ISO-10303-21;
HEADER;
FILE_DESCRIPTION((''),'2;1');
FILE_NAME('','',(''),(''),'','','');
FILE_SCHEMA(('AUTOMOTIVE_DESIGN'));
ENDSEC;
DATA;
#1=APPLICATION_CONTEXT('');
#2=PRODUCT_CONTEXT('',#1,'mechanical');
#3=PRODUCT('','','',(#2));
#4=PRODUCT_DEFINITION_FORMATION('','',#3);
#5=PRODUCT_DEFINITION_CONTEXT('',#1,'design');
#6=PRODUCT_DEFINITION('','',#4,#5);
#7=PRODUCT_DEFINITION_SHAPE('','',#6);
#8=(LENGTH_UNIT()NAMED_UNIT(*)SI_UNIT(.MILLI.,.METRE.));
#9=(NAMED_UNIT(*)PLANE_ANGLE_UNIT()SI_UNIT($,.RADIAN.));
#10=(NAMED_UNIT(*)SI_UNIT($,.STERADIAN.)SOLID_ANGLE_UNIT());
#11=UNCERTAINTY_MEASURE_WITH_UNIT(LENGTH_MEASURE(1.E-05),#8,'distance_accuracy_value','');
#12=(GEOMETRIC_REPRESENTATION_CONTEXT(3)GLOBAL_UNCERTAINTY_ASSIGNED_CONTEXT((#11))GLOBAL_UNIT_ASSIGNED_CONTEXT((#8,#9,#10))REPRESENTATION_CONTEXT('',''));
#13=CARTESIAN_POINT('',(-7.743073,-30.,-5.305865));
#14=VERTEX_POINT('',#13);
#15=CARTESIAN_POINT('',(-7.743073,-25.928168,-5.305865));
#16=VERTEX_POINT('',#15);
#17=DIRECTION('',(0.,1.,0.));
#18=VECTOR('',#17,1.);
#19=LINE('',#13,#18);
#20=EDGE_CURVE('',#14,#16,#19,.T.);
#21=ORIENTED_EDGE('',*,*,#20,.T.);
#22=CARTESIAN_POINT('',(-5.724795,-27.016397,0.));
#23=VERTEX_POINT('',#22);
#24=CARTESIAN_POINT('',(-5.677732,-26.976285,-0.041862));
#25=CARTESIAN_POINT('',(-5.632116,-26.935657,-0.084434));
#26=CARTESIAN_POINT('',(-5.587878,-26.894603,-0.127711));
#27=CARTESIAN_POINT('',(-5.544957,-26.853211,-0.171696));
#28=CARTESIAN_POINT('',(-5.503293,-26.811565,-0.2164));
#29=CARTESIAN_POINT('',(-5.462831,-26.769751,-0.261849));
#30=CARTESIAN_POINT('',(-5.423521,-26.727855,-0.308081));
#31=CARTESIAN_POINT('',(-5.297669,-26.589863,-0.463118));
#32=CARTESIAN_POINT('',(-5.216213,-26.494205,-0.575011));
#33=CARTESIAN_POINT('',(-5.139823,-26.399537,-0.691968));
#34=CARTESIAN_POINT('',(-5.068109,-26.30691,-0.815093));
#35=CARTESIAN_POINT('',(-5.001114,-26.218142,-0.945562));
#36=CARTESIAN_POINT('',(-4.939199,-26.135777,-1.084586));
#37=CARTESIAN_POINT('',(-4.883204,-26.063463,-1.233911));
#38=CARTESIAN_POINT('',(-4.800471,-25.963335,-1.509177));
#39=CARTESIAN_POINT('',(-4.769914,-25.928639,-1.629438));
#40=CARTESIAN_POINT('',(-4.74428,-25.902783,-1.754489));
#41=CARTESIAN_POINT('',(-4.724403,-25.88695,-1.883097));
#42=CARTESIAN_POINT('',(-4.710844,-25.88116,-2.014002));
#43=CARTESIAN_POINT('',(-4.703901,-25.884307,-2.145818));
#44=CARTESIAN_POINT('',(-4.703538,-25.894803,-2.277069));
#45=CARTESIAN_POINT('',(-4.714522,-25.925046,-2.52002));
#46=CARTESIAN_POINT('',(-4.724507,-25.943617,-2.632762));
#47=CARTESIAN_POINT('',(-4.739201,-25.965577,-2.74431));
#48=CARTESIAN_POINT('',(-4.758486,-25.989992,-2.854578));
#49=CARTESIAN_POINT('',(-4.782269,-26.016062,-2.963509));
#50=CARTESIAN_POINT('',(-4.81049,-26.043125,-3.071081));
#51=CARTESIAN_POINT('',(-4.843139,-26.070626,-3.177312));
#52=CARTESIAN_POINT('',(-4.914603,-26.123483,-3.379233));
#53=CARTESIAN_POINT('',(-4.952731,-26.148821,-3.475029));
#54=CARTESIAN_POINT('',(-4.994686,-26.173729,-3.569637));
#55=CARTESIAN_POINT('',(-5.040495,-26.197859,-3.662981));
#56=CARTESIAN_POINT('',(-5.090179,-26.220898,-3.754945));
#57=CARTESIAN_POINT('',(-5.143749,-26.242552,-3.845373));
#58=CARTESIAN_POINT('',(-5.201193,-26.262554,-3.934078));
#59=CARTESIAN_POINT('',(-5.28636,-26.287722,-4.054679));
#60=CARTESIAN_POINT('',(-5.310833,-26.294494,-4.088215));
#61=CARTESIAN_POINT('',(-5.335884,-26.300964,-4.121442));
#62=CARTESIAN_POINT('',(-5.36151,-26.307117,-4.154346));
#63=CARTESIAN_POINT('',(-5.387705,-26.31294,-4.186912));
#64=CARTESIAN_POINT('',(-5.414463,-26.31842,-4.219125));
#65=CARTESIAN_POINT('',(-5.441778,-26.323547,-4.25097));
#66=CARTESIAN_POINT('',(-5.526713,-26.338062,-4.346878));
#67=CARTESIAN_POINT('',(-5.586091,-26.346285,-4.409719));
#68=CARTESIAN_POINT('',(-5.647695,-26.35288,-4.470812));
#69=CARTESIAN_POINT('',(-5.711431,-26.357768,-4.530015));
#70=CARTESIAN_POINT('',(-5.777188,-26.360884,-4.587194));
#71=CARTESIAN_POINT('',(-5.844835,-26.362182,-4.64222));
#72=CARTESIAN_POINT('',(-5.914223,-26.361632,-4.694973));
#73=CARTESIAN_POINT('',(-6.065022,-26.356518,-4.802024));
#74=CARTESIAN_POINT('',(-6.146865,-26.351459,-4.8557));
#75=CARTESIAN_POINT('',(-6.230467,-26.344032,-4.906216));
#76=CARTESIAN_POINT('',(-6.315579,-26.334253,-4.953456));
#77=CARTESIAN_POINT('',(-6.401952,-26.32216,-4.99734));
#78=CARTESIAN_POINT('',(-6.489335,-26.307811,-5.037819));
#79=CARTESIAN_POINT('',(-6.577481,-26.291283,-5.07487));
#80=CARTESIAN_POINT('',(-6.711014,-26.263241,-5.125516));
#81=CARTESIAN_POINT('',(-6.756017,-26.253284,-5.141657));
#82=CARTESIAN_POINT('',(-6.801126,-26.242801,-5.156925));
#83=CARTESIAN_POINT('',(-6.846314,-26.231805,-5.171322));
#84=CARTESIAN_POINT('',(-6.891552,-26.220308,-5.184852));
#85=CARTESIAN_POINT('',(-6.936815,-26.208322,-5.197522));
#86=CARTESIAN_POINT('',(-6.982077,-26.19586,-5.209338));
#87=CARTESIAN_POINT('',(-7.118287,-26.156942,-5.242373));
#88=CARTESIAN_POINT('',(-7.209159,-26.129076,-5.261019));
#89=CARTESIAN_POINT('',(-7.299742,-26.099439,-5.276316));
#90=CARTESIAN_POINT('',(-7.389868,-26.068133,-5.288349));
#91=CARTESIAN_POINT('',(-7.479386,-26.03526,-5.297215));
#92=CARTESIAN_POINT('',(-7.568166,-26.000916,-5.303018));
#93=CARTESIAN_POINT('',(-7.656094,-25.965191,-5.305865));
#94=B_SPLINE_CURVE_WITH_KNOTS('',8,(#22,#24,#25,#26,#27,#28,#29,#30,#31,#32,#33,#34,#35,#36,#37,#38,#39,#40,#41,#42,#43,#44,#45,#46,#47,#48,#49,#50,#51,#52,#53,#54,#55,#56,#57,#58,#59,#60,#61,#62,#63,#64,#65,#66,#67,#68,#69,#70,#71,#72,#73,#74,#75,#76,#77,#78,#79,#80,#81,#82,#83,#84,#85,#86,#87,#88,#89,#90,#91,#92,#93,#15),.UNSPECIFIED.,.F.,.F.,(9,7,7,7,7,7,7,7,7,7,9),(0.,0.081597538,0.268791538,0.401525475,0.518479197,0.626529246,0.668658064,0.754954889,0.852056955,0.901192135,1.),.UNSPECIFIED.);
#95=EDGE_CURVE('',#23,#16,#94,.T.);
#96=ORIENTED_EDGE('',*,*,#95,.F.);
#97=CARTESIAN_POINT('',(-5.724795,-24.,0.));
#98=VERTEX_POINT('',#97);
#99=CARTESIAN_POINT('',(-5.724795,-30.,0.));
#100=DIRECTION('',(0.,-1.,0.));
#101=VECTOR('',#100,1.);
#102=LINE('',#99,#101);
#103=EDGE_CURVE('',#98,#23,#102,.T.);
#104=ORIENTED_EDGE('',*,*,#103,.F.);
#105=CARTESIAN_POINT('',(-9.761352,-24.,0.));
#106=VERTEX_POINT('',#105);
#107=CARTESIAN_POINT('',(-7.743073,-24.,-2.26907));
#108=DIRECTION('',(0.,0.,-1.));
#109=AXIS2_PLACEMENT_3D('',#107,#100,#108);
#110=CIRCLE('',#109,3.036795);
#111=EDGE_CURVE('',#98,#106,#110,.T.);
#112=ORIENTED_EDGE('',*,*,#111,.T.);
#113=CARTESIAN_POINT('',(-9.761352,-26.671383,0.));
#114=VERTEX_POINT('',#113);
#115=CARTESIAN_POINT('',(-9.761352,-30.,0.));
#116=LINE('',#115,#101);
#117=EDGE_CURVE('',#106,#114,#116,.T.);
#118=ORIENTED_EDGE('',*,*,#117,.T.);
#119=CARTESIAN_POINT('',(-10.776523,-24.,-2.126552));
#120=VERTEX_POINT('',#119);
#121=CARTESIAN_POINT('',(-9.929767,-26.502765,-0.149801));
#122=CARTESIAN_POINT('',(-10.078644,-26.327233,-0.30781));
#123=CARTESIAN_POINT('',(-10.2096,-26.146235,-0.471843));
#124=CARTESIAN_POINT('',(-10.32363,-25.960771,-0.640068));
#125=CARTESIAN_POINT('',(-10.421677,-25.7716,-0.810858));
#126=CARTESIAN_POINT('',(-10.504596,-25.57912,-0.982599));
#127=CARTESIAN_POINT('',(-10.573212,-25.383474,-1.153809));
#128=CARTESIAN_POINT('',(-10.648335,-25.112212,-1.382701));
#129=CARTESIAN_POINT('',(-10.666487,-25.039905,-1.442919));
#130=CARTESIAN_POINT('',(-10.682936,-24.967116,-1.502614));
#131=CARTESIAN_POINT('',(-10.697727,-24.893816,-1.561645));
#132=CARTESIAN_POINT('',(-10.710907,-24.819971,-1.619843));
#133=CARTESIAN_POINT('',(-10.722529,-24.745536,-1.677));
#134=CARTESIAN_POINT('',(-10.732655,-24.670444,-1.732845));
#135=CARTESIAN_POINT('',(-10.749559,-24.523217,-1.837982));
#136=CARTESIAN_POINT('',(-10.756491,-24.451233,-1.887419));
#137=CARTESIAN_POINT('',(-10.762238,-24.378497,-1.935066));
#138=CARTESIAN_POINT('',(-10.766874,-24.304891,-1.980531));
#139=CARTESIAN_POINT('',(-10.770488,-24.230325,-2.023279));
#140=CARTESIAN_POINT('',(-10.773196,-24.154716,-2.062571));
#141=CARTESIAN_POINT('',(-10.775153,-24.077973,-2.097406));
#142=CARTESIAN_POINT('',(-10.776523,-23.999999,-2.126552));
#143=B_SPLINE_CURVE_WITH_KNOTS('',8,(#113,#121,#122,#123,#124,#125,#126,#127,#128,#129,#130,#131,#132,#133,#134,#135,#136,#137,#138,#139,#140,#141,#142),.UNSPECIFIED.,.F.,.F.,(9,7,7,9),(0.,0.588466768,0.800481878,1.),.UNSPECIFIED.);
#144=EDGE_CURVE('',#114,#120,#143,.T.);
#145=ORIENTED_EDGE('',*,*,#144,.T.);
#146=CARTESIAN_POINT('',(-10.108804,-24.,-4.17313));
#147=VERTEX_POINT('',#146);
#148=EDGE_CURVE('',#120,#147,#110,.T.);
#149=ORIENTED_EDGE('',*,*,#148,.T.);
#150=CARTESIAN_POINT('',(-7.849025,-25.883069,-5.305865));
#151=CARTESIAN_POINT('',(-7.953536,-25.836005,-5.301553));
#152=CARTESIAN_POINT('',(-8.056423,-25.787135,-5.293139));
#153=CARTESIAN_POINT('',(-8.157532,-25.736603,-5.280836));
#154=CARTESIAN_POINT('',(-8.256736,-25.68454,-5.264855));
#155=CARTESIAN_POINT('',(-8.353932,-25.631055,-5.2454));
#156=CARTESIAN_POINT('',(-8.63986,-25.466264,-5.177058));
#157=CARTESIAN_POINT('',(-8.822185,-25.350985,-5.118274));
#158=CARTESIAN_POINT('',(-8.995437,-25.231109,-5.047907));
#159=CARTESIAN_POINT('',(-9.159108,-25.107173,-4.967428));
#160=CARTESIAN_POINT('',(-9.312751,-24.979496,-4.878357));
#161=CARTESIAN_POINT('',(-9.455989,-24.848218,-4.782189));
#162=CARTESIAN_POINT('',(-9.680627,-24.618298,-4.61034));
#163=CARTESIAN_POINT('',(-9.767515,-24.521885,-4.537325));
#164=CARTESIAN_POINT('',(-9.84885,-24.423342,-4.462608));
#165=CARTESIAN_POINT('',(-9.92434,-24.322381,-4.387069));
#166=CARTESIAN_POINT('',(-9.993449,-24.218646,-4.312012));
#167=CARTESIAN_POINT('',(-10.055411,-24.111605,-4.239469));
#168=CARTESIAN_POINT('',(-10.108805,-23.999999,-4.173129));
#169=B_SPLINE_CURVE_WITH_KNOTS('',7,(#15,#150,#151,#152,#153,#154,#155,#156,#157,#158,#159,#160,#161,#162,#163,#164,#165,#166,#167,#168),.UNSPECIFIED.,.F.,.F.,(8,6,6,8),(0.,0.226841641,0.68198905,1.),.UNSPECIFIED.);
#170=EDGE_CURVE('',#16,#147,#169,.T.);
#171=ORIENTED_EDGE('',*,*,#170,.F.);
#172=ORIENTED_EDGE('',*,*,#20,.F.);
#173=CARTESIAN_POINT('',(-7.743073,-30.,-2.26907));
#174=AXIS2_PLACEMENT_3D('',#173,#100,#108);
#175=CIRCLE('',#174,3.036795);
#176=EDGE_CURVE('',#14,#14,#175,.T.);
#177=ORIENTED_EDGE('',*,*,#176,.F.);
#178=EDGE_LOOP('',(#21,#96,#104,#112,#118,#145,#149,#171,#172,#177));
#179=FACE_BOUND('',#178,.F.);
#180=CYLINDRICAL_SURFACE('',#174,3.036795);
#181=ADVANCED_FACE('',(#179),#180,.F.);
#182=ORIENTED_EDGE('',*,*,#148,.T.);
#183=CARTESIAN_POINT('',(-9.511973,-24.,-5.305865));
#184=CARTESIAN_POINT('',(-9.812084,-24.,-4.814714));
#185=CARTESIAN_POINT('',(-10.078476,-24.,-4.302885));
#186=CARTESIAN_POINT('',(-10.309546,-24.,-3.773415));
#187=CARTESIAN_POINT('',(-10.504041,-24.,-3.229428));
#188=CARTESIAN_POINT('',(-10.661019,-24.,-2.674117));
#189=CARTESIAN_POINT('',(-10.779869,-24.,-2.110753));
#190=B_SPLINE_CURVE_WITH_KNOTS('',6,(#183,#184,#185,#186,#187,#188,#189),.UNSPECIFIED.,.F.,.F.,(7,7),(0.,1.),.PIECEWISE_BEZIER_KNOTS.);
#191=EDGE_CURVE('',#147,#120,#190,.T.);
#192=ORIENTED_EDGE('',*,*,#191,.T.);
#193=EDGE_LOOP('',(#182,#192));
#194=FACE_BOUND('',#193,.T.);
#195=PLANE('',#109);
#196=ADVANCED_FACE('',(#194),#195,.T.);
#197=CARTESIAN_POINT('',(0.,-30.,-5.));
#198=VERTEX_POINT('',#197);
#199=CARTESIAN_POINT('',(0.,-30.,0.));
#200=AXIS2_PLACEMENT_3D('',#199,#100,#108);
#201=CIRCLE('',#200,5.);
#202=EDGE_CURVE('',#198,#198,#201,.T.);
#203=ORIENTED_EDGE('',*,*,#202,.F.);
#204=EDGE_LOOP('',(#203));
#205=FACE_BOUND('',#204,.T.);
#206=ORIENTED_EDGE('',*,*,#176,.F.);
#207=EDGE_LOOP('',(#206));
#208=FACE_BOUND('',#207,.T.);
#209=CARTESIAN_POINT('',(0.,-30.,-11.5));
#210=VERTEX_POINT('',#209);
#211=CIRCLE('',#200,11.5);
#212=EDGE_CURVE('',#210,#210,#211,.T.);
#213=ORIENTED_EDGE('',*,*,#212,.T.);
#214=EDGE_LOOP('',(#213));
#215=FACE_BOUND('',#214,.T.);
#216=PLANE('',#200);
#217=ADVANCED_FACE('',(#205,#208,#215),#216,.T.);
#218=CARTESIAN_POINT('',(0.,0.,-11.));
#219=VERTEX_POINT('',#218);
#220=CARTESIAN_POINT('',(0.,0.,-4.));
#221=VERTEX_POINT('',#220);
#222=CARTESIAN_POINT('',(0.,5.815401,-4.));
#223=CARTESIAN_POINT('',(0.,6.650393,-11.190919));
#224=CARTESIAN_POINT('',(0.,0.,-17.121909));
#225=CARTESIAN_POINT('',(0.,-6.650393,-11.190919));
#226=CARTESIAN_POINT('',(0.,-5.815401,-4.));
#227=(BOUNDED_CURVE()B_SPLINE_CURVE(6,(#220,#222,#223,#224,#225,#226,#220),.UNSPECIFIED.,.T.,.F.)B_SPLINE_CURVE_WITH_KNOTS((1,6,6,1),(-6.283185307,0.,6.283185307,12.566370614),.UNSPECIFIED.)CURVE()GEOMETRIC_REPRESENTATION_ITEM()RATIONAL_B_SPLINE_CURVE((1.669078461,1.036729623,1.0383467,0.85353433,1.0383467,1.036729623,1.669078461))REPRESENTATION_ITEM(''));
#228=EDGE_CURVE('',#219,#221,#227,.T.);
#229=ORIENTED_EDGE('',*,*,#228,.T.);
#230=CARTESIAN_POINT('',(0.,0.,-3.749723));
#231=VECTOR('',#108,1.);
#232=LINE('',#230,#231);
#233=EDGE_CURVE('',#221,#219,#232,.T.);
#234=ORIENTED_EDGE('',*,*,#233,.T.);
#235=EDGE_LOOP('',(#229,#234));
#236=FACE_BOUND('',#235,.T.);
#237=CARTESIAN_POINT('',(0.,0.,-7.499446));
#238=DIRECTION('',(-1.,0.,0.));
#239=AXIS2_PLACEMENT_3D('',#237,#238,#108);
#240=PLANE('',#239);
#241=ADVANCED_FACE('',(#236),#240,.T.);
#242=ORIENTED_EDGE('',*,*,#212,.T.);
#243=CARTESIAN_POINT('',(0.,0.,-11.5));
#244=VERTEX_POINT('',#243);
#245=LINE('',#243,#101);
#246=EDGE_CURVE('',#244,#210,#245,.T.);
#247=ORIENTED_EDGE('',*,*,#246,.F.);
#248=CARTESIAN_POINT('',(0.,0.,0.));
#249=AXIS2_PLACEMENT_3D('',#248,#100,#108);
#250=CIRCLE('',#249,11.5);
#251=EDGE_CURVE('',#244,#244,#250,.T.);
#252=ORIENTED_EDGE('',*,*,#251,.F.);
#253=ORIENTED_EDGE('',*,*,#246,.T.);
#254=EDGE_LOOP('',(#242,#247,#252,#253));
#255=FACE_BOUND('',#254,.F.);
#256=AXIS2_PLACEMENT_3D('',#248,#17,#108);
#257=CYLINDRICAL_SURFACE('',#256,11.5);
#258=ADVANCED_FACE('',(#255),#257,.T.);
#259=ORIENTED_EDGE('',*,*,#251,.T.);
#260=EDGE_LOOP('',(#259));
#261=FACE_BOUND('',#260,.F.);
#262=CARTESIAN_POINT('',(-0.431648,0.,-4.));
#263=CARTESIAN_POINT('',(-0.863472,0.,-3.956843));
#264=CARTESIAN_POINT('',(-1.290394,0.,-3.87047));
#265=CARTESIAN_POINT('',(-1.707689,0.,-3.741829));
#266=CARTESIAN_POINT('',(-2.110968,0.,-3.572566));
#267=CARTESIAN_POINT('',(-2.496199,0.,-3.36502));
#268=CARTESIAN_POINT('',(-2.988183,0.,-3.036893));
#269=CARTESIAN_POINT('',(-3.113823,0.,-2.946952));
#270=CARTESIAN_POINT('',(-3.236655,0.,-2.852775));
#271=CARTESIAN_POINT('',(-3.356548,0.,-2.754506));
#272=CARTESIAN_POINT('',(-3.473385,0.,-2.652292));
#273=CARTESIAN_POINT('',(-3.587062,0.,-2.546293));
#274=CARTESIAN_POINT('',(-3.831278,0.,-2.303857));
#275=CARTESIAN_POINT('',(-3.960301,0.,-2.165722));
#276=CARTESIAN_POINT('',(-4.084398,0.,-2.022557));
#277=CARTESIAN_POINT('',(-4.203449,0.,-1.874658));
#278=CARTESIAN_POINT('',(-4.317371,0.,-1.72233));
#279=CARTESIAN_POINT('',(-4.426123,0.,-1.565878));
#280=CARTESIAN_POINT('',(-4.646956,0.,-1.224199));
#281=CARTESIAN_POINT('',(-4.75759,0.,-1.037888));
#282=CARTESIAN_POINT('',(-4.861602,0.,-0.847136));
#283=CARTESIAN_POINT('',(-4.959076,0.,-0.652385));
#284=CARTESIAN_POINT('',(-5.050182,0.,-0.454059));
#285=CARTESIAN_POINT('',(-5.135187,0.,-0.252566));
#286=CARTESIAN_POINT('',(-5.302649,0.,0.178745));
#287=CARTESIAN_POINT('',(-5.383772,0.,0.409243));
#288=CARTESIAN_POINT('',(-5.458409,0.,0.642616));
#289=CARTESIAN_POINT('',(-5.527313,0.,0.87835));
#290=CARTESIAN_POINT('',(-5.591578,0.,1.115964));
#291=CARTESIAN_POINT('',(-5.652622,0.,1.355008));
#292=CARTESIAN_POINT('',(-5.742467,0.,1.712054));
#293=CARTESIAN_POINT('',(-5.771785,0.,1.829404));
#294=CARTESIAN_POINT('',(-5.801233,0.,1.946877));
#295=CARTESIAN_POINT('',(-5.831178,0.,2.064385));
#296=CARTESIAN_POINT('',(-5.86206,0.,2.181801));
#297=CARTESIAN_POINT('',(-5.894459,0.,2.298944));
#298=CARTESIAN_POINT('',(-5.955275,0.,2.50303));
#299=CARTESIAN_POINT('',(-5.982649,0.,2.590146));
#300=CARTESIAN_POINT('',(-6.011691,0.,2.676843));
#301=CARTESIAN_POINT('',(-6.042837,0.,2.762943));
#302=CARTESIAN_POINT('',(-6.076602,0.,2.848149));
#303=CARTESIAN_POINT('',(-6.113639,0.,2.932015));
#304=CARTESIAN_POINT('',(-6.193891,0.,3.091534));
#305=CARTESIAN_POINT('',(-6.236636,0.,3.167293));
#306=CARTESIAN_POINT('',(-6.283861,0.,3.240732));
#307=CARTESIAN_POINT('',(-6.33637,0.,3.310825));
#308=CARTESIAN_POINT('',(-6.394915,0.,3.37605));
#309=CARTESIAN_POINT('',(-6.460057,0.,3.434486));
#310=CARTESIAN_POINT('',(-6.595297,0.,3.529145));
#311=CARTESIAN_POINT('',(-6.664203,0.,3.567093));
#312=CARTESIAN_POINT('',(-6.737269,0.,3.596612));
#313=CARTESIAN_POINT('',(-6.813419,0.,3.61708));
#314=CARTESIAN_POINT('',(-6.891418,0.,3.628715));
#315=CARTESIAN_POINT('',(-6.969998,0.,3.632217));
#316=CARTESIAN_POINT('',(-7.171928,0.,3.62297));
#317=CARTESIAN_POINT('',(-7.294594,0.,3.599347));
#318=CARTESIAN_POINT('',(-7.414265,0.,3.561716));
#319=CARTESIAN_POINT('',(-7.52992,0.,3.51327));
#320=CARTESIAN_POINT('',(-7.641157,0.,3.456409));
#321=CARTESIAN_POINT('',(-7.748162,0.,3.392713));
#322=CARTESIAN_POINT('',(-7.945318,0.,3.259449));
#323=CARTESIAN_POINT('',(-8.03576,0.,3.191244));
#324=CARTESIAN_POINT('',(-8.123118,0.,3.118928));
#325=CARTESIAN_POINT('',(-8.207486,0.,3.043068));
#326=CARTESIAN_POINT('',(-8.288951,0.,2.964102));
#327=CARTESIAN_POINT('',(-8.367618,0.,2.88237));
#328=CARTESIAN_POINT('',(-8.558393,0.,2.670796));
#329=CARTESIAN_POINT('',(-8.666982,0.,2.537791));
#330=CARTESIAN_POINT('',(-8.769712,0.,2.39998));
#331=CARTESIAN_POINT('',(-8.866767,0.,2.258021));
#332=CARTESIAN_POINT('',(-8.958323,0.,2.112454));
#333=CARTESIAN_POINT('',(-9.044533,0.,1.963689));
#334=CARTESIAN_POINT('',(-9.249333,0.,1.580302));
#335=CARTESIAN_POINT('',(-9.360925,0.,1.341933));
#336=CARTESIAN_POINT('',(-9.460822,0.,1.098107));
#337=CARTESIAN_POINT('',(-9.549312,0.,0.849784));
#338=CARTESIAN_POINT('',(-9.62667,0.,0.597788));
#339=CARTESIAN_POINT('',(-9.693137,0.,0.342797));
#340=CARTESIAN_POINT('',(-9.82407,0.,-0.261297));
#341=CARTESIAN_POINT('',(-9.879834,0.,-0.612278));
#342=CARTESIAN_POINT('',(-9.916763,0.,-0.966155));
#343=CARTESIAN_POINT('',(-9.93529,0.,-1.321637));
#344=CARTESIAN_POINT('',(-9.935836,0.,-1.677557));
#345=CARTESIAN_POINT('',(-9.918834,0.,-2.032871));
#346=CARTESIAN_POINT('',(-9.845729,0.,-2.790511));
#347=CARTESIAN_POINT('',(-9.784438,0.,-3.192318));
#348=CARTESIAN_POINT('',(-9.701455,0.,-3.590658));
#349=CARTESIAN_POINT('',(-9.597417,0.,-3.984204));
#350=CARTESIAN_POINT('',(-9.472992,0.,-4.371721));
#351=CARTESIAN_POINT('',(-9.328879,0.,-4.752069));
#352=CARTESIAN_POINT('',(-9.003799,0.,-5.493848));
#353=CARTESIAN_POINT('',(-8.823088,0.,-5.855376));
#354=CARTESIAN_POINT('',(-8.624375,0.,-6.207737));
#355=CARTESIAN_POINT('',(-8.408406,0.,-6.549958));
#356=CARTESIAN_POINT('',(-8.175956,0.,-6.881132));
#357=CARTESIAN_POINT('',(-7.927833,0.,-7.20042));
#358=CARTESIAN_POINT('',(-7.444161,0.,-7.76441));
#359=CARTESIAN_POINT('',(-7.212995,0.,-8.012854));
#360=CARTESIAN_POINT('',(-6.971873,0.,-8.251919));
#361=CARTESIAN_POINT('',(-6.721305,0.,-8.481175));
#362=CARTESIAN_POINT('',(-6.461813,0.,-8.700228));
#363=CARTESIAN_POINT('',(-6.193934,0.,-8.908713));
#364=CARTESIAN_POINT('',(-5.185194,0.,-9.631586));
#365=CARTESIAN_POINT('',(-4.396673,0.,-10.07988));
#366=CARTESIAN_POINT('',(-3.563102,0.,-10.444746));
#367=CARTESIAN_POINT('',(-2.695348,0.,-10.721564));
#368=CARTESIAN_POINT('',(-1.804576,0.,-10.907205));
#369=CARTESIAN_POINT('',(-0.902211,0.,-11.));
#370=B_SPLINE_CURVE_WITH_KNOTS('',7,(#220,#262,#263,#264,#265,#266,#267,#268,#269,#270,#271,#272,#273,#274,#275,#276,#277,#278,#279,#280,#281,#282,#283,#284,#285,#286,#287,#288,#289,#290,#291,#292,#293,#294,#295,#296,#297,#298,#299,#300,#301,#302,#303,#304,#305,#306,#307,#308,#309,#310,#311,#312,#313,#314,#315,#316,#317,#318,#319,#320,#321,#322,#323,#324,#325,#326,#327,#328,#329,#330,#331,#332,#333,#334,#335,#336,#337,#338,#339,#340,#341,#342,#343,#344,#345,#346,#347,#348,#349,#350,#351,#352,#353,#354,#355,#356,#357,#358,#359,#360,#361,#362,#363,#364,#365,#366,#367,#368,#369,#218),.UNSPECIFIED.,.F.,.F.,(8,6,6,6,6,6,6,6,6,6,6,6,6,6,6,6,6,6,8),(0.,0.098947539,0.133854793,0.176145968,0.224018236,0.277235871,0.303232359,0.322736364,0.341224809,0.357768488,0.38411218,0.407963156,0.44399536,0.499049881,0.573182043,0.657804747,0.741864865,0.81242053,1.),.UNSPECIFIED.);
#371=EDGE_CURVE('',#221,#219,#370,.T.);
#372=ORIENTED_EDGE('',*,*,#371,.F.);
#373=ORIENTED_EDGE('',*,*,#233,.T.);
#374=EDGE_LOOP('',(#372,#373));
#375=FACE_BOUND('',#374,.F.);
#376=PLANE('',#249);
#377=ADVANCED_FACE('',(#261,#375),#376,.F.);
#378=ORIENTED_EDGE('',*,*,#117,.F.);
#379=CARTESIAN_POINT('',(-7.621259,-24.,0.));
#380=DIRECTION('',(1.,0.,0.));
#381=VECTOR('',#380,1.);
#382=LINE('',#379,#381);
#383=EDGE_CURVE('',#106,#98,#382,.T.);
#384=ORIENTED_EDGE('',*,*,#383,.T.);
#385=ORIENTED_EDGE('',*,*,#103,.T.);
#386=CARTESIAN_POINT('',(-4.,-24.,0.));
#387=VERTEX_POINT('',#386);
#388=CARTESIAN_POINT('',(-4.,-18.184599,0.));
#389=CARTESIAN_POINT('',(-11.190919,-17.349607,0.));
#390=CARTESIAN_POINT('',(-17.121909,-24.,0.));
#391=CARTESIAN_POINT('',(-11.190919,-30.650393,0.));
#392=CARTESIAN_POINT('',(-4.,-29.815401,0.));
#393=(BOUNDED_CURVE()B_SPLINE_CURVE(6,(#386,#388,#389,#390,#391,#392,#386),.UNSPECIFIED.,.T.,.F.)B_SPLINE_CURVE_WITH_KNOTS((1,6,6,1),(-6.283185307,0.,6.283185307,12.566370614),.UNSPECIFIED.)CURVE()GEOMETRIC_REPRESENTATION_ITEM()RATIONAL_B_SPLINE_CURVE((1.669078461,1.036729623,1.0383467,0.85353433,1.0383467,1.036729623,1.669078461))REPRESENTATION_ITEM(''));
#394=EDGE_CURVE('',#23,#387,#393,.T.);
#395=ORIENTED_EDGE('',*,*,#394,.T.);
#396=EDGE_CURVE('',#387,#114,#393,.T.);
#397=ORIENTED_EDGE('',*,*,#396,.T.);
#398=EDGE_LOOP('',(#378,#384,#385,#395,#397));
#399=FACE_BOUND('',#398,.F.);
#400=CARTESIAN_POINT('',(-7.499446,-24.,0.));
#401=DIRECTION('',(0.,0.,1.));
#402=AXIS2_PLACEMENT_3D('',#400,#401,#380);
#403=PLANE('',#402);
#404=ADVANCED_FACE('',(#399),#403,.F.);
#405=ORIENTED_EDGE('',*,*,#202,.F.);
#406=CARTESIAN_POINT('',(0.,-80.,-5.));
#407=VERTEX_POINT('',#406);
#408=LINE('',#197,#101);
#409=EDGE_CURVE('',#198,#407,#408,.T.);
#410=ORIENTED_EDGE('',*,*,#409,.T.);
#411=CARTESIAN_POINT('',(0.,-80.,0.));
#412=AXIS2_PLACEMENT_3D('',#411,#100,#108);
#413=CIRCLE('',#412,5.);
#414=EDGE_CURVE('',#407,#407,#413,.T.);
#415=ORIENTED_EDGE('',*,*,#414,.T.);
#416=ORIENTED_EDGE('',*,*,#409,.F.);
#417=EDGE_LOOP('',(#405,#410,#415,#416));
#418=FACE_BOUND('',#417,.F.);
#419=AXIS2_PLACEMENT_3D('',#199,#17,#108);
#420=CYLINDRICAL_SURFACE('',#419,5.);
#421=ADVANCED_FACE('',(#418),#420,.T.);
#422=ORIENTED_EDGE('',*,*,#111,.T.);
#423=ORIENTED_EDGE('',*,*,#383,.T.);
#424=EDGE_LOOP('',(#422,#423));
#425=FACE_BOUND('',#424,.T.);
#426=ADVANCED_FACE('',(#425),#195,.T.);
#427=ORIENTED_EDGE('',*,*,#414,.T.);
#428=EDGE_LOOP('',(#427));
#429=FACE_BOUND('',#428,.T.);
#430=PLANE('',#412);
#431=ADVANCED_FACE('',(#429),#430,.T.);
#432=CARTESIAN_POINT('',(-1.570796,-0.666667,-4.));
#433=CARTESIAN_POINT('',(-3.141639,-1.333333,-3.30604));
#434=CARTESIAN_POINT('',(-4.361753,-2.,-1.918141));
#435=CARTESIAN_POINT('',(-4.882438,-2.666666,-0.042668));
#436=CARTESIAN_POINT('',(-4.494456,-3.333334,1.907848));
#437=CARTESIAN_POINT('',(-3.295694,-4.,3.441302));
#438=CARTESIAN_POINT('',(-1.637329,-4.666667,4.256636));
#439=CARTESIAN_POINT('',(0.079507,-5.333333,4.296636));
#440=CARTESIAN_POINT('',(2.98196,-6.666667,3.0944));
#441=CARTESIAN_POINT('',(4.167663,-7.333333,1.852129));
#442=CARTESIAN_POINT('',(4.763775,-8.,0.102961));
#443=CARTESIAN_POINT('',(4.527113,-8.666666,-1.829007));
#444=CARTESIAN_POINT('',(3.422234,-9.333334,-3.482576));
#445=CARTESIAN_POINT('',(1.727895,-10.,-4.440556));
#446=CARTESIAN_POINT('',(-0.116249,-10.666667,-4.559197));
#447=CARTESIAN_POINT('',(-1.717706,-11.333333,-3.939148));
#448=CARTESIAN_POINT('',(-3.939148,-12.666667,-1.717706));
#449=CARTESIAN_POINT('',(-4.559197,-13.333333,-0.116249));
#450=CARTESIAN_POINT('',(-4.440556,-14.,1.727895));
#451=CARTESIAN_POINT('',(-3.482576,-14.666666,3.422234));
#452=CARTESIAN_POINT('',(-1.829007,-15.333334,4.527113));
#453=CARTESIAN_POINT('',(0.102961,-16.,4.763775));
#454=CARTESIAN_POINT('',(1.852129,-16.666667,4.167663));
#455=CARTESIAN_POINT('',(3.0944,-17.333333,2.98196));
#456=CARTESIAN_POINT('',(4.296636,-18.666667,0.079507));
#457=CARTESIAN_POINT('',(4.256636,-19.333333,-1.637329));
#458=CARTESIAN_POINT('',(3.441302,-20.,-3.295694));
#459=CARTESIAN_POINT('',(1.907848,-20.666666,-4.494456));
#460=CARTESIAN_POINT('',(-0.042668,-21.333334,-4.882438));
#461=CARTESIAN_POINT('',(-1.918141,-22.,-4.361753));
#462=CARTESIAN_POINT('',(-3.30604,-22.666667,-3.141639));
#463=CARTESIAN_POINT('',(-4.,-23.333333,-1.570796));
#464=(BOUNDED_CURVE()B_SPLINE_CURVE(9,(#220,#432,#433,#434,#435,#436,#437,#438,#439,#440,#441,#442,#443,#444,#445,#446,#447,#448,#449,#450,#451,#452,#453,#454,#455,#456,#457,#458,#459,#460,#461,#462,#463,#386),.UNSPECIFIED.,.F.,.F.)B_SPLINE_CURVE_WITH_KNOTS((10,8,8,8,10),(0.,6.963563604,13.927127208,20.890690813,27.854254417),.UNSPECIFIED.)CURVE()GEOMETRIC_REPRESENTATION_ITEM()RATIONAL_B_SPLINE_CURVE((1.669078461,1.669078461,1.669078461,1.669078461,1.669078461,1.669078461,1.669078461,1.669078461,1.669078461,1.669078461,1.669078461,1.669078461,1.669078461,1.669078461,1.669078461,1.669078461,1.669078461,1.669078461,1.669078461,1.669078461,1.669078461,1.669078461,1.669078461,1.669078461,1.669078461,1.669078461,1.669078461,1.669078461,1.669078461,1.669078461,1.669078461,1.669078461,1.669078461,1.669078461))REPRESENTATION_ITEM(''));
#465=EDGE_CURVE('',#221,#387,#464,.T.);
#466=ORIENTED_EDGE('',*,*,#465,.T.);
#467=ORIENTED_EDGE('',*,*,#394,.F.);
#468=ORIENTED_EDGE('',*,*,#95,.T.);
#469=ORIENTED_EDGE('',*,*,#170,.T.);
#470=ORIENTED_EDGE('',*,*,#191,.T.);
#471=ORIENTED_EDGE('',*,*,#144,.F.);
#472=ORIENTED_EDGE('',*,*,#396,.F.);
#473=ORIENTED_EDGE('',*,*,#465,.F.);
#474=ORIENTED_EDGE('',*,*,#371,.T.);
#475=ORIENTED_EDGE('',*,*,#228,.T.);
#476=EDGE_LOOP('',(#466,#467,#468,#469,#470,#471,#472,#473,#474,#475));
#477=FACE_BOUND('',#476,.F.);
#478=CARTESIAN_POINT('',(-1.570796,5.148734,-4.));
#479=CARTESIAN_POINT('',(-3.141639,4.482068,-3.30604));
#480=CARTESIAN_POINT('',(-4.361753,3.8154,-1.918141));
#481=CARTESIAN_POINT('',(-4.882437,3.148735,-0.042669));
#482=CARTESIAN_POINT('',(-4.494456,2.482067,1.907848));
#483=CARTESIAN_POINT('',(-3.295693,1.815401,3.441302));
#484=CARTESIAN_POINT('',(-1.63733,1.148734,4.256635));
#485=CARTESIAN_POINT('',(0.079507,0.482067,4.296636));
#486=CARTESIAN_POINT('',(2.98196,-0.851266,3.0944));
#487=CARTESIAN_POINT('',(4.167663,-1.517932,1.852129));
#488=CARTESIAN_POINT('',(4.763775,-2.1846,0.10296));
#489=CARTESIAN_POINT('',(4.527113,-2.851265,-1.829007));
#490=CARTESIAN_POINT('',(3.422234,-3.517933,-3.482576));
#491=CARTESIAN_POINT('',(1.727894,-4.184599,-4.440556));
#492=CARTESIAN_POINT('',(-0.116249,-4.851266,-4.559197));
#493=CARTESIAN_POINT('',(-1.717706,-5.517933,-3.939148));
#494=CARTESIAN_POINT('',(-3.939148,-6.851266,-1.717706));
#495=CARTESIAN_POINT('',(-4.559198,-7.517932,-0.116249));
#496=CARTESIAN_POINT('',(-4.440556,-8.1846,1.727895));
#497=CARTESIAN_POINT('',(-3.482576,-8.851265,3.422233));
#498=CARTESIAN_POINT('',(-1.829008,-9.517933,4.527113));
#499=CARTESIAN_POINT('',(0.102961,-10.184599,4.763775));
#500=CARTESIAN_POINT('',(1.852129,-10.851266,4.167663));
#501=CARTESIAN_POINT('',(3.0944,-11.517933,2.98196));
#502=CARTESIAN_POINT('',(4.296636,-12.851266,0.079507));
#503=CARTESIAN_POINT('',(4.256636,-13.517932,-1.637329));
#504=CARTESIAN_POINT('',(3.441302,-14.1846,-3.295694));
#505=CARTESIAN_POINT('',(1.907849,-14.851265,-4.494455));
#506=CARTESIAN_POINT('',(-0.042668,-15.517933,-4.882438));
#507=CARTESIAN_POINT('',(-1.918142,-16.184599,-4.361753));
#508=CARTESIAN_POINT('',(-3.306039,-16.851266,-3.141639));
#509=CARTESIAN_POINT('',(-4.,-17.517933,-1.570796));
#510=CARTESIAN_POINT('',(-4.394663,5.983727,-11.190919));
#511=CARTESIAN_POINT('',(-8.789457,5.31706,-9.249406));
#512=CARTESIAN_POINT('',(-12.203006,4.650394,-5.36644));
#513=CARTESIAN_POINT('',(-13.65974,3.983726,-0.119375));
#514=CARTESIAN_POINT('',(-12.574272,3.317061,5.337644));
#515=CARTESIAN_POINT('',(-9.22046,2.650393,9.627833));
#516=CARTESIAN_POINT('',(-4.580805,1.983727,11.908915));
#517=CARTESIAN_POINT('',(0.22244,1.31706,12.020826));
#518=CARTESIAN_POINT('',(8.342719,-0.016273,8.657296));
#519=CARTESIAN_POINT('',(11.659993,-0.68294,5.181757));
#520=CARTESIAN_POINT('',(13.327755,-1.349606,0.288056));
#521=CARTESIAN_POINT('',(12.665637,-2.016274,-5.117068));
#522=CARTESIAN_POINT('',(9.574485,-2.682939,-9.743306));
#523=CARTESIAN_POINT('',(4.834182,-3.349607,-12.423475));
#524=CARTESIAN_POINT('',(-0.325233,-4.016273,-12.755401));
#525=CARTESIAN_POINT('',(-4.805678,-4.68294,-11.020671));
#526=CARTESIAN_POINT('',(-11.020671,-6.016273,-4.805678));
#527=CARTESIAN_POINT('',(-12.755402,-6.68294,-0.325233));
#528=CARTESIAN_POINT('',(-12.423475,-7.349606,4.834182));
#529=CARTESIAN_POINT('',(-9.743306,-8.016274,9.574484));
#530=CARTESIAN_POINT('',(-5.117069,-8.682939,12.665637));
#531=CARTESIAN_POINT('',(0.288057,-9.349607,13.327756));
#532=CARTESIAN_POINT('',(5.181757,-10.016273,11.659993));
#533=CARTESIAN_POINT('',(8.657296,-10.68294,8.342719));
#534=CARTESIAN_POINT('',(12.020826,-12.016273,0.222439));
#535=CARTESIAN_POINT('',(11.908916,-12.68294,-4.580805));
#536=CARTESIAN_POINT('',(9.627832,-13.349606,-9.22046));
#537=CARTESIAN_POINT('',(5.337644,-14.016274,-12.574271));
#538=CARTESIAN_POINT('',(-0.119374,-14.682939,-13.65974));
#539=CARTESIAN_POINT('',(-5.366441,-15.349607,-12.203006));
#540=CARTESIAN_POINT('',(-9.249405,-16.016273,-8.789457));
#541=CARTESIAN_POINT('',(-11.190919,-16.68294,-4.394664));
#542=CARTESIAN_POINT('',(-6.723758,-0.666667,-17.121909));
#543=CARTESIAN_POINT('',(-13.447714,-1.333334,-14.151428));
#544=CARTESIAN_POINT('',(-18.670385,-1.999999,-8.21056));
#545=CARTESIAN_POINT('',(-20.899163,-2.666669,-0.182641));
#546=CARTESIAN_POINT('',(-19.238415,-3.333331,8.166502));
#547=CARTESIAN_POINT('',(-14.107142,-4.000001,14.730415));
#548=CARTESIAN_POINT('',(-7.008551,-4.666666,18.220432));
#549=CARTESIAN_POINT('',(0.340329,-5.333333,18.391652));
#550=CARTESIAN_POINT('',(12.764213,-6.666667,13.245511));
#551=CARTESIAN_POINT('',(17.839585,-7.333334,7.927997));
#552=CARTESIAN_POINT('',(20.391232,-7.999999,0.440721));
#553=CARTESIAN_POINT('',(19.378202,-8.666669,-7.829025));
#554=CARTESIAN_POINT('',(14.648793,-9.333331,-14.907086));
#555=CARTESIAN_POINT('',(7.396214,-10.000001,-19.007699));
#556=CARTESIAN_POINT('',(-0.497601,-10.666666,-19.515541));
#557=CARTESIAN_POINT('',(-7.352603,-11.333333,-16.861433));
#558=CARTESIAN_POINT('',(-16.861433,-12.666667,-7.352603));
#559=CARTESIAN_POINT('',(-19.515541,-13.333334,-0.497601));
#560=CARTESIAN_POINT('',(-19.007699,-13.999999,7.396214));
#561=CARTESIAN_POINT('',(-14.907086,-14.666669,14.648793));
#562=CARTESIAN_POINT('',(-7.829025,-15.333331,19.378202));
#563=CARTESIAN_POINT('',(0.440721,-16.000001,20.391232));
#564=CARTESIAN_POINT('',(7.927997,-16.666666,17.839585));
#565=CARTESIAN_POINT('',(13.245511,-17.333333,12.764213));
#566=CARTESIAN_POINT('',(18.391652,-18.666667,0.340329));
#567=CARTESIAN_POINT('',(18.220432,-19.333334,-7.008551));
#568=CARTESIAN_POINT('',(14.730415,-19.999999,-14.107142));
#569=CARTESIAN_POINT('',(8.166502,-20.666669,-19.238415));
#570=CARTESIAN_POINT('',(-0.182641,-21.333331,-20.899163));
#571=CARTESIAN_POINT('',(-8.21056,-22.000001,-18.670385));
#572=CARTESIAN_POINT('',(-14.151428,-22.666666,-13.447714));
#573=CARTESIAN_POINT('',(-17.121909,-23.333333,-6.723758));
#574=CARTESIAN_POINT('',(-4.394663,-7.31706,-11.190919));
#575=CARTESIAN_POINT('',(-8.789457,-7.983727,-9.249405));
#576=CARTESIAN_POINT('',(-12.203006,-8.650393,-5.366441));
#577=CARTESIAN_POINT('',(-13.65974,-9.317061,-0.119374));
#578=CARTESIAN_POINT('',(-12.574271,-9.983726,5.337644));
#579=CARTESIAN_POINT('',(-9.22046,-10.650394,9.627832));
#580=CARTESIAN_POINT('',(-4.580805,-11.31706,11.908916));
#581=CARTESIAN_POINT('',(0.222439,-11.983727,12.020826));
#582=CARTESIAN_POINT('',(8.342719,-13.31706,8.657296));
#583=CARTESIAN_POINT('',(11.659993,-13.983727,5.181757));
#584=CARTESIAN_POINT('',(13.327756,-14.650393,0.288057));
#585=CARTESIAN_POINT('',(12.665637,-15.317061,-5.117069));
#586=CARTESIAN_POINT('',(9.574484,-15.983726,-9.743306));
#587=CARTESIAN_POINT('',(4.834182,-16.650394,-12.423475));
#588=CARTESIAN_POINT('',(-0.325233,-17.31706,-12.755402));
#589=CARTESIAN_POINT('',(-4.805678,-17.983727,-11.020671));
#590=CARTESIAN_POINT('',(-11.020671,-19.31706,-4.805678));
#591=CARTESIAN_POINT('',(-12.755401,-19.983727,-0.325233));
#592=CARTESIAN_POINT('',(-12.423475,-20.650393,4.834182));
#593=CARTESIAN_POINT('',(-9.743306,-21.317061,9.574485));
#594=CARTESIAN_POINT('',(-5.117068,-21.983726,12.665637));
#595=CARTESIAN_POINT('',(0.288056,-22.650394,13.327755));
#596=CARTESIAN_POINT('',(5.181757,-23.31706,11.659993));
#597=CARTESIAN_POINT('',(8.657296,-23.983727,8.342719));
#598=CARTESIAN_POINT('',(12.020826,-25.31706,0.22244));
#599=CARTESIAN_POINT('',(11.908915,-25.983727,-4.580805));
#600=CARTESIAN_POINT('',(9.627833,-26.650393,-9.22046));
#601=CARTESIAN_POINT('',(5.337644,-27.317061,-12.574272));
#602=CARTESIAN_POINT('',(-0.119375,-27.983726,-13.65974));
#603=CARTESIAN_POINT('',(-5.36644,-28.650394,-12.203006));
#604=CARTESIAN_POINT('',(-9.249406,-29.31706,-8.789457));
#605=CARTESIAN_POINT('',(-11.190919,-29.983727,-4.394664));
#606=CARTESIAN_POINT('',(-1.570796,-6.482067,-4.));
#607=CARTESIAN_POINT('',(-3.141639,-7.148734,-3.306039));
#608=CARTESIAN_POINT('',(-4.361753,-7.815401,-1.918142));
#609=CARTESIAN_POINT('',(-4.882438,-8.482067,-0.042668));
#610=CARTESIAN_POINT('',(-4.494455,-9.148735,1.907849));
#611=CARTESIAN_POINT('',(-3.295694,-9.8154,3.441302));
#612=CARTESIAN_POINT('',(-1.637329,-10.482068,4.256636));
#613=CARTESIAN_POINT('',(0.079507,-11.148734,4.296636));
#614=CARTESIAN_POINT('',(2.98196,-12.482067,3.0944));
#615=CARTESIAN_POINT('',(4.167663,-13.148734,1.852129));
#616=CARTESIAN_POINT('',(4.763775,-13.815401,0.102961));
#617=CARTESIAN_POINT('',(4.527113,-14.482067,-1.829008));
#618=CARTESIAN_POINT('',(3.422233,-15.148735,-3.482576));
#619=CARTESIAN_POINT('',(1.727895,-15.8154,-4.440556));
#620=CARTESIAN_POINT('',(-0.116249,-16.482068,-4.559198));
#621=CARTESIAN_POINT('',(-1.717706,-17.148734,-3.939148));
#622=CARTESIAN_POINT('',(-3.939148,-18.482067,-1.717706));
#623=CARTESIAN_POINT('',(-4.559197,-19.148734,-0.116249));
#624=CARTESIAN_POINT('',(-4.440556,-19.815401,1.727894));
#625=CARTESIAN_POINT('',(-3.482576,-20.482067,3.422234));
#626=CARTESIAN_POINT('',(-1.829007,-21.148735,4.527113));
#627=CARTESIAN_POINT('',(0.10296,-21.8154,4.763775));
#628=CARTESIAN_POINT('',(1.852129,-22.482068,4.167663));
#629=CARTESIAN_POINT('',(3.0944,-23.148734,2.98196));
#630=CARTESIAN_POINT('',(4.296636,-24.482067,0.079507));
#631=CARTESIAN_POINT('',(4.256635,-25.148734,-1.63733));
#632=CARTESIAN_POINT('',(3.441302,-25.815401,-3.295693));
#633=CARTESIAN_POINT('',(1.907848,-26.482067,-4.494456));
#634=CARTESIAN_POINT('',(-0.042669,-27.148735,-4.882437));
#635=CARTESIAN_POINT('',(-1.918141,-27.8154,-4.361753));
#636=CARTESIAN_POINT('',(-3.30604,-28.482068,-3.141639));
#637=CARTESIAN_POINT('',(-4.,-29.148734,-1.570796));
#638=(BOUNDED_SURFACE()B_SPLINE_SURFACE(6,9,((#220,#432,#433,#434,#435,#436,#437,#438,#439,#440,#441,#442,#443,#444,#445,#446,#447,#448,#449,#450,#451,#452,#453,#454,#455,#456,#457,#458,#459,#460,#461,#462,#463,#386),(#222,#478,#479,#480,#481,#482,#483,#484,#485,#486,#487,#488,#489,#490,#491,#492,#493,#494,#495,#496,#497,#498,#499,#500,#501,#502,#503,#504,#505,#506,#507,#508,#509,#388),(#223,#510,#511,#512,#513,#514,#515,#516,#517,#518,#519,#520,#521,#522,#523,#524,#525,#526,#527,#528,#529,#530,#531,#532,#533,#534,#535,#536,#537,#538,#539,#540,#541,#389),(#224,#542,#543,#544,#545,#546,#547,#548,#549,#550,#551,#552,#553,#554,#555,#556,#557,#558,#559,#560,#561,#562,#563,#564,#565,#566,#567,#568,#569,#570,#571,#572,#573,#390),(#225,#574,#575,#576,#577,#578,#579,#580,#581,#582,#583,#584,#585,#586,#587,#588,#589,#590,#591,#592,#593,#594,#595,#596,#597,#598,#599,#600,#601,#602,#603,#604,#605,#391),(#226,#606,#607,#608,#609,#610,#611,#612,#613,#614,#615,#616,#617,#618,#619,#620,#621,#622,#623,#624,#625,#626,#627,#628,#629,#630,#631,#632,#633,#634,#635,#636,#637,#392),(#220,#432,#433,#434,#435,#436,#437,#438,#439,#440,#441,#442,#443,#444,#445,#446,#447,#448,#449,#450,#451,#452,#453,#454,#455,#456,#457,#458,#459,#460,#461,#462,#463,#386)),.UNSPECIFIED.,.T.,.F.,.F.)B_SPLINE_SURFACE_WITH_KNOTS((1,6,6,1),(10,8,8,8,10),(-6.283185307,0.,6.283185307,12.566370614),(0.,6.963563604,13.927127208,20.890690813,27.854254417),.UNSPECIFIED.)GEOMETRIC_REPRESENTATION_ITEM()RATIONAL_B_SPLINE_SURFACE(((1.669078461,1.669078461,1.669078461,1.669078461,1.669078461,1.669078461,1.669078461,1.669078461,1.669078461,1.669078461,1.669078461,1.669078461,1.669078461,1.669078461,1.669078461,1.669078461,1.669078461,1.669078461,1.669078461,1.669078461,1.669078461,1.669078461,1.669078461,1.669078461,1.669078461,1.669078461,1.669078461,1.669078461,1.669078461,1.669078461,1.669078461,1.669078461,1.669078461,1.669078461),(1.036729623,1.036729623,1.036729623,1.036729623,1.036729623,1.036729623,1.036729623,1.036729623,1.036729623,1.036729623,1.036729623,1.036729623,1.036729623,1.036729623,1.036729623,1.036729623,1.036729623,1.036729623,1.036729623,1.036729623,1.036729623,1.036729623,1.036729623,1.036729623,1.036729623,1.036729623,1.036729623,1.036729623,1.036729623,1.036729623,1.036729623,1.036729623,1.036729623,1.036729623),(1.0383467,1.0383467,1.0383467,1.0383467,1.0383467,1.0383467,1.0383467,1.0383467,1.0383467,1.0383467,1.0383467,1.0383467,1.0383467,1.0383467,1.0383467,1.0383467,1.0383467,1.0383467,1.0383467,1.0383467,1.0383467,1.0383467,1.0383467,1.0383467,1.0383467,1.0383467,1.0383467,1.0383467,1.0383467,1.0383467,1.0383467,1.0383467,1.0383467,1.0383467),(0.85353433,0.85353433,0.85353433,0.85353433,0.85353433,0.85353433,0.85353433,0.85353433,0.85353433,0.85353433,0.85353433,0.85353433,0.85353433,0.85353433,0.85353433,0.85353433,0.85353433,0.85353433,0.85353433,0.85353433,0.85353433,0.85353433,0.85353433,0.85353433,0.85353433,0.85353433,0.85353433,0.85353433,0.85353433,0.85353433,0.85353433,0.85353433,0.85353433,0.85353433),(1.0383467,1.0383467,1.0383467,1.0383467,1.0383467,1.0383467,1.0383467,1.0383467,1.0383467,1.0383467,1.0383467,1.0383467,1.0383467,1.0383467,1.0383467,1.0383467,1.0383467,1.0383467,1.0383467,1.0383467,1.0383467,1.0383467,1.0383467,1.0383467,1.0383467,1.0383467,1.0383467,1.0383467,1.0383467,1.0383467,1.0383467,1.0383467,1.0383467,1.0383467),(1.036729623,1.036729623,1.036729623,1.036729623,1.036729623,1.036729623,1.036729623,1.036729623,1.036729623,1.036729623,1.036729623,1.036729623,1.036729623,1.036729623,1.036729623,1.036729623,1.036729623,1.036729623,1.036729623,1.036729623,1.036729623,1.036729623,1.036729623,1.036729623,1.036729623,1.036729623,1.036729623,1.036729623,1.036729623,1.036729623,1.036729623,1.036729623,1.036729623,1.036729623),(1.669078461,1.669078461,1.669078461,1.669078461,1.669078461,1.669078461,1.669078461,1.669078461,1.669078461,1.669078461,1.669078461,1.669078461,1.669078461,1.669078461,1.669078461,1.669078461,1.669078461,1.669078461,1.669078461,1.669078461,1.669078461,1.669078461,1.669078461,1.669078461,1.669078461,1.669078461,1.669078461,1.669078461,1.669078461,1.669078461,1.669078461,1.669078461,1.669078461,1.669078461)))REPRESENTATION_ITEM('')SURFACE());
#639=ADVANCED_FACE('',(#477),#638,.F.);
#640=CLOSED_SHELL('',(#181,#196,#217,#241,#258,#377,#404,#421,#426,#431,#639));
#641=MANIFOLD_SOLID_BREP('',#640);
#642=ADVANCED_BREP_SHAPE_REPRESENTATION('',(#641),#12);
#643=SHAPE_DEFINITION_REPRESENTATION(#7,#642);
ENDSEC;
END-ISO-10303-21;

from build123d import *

# Parameters (mm, degrees)
SKETCH2_R           = 17.5
BOSS_EXTRUDE2_DEPTH = 30
SKETCH3_R           = 11.5
CUT_EXTRUDE1_DEPTH  = 30
CUT_EXTRUDE1_DRAFT  = -5
SKETCH4_R           = 15
SKETCH4_R_2         = 12.5
CUT_EXTRUDE2_DEPTH  = 5
SKETCH8_R           = 11.5
BOSS_EXTRUDE3_DEPTH = 30
SWEEP3_PITCH        = 10.666666667
SWEEP3_HEIGHT       = 24
SWEEP3_RADIUS       = 7.5
SKETCH10_R          = 3.5
SKETCH11_R          = 5
BOSS_EXTRUDE4_DEPTH = 50
SKETCH16_R          = 3.036795298
CUT_EXTRUDE7_DEPTH  = 6


with BuildPart() as part:
    # Sketch2 → Boss-Extrude2 (new body)
    with BuildSketch(Plane(origin=(0, 0, 0), x_dir=(1, 0, 0), z_dir=(0, 1, 0))):
        with Locations(Location((0, 0, 0), (0, 0, 270))):
            Circle(SKETCH2_R)
    extrude(amount=BOSS_EXTRUDE2_DEPTH)


with BuildPart() as cut_extrude1_tool:
    # Sketch3 → Cut-Extrude1 (with draft: the straight prism first)
    with BuildSketch(Plane.XZ):
        Circle(SKETCH3_R)
    extrude(amount=-CUT_EXTRUDE1_DEPTH)
    # Cut-Extrude1: the draft: its side faces are tilted about the plane it starts from
    cut_extrude1_sides = [cut_extrude1_tool.faces().sort_by_distance(p)[0] for p in [
        (-11.5, 15, 0),
    ]]
    draft(cut_extrude1_sides, Plane.XZ, CUT_EXTRUDE1_DRAFT)


with BuildPart() as part_1:
    add(part.part)

    # Cut-Extrude1: cut by cut_extrude1_tool
    add(cut_extrude1_tool.part, mode=Mode.SUBTRACT)

    # Sketch4 → Cut-Extrude2 (cut)
    with BuildSketch(Plane.XZ):
        with Locations(Location((0, 0.439504446, 0), (0, 0, 270))):
            Circle(SKETCH4_R)
        with Locations(Location((0, 0.439504446, 0), (0, 0, 270))):
            Circle(SKETCH4_R_2, mode=Mode.SUBTRACT)
    extrude(amount=-CUT_EXTRUDE2_DEPTH, mode=Mode.SUBTRACT)


with BuildPart() as body_2:
    # Sketch8 → Boss-Extrude3 (new body)
    with BuildSketch(Plane.XZ):
        with Locations(Location((0, 0, 0), (0, 0, 270))):
            Circle(SKETCH8_R)
    extrude(amount=BOSS_EXTRUDE3_DEPTH)


with BuildPart() as body_3:
    # Sweep3: sweep along a helix
    with BuildLine() as sweep3_path:
        Helix(SWEEP3_PITCH, SWEEP3_HEIGHT, SWEEP3_RADIUS, center=(0, 0, 0), direction=(0, -1, 0), lefthand=True)
    # Sketch10 → Sweep3 (sweep)
    with BuildSketch(Plane(origin=(0, 0, 0), x_dir=(0, 0, -1), z_dir=(1, 0, 0))):
        with Locations((-7.5, -16)):
            Circle(SKETCH10_R)
    sweep(path=sweep3_path.line, is_frenet=True)


with BuildPart() as body_2_1:
    add(body_2.part)

    # Combine1: cut body 3
    add(body_3.part, mode=Mode.SUBTRACT)

    # Sketch11 → Boss-Extrude4 (add)
    with BuildSketch(Plane.XZ.offset(30)):
        with Locations(Location((0, 0, 0), (0, 0, 270))):
            Circle(SKETCH11_R)
    extrude(amount=BOSS_EXTRUDE4_DEPTH)

    # Sketch16 → Cut-Extrude7 (cut)
    with BuildSketch(Plane.XZ.offset(30)):
        with Locations(Location((-7.743073418, -2.269070065, 0), (0, 0, 270))):
            Circle(SKETCH16_R)
    extrude(amount=-CUT_EXTRUDE7_DEPTH, mode=Mode.SUBTRACT)


solid = body_2_1.part
